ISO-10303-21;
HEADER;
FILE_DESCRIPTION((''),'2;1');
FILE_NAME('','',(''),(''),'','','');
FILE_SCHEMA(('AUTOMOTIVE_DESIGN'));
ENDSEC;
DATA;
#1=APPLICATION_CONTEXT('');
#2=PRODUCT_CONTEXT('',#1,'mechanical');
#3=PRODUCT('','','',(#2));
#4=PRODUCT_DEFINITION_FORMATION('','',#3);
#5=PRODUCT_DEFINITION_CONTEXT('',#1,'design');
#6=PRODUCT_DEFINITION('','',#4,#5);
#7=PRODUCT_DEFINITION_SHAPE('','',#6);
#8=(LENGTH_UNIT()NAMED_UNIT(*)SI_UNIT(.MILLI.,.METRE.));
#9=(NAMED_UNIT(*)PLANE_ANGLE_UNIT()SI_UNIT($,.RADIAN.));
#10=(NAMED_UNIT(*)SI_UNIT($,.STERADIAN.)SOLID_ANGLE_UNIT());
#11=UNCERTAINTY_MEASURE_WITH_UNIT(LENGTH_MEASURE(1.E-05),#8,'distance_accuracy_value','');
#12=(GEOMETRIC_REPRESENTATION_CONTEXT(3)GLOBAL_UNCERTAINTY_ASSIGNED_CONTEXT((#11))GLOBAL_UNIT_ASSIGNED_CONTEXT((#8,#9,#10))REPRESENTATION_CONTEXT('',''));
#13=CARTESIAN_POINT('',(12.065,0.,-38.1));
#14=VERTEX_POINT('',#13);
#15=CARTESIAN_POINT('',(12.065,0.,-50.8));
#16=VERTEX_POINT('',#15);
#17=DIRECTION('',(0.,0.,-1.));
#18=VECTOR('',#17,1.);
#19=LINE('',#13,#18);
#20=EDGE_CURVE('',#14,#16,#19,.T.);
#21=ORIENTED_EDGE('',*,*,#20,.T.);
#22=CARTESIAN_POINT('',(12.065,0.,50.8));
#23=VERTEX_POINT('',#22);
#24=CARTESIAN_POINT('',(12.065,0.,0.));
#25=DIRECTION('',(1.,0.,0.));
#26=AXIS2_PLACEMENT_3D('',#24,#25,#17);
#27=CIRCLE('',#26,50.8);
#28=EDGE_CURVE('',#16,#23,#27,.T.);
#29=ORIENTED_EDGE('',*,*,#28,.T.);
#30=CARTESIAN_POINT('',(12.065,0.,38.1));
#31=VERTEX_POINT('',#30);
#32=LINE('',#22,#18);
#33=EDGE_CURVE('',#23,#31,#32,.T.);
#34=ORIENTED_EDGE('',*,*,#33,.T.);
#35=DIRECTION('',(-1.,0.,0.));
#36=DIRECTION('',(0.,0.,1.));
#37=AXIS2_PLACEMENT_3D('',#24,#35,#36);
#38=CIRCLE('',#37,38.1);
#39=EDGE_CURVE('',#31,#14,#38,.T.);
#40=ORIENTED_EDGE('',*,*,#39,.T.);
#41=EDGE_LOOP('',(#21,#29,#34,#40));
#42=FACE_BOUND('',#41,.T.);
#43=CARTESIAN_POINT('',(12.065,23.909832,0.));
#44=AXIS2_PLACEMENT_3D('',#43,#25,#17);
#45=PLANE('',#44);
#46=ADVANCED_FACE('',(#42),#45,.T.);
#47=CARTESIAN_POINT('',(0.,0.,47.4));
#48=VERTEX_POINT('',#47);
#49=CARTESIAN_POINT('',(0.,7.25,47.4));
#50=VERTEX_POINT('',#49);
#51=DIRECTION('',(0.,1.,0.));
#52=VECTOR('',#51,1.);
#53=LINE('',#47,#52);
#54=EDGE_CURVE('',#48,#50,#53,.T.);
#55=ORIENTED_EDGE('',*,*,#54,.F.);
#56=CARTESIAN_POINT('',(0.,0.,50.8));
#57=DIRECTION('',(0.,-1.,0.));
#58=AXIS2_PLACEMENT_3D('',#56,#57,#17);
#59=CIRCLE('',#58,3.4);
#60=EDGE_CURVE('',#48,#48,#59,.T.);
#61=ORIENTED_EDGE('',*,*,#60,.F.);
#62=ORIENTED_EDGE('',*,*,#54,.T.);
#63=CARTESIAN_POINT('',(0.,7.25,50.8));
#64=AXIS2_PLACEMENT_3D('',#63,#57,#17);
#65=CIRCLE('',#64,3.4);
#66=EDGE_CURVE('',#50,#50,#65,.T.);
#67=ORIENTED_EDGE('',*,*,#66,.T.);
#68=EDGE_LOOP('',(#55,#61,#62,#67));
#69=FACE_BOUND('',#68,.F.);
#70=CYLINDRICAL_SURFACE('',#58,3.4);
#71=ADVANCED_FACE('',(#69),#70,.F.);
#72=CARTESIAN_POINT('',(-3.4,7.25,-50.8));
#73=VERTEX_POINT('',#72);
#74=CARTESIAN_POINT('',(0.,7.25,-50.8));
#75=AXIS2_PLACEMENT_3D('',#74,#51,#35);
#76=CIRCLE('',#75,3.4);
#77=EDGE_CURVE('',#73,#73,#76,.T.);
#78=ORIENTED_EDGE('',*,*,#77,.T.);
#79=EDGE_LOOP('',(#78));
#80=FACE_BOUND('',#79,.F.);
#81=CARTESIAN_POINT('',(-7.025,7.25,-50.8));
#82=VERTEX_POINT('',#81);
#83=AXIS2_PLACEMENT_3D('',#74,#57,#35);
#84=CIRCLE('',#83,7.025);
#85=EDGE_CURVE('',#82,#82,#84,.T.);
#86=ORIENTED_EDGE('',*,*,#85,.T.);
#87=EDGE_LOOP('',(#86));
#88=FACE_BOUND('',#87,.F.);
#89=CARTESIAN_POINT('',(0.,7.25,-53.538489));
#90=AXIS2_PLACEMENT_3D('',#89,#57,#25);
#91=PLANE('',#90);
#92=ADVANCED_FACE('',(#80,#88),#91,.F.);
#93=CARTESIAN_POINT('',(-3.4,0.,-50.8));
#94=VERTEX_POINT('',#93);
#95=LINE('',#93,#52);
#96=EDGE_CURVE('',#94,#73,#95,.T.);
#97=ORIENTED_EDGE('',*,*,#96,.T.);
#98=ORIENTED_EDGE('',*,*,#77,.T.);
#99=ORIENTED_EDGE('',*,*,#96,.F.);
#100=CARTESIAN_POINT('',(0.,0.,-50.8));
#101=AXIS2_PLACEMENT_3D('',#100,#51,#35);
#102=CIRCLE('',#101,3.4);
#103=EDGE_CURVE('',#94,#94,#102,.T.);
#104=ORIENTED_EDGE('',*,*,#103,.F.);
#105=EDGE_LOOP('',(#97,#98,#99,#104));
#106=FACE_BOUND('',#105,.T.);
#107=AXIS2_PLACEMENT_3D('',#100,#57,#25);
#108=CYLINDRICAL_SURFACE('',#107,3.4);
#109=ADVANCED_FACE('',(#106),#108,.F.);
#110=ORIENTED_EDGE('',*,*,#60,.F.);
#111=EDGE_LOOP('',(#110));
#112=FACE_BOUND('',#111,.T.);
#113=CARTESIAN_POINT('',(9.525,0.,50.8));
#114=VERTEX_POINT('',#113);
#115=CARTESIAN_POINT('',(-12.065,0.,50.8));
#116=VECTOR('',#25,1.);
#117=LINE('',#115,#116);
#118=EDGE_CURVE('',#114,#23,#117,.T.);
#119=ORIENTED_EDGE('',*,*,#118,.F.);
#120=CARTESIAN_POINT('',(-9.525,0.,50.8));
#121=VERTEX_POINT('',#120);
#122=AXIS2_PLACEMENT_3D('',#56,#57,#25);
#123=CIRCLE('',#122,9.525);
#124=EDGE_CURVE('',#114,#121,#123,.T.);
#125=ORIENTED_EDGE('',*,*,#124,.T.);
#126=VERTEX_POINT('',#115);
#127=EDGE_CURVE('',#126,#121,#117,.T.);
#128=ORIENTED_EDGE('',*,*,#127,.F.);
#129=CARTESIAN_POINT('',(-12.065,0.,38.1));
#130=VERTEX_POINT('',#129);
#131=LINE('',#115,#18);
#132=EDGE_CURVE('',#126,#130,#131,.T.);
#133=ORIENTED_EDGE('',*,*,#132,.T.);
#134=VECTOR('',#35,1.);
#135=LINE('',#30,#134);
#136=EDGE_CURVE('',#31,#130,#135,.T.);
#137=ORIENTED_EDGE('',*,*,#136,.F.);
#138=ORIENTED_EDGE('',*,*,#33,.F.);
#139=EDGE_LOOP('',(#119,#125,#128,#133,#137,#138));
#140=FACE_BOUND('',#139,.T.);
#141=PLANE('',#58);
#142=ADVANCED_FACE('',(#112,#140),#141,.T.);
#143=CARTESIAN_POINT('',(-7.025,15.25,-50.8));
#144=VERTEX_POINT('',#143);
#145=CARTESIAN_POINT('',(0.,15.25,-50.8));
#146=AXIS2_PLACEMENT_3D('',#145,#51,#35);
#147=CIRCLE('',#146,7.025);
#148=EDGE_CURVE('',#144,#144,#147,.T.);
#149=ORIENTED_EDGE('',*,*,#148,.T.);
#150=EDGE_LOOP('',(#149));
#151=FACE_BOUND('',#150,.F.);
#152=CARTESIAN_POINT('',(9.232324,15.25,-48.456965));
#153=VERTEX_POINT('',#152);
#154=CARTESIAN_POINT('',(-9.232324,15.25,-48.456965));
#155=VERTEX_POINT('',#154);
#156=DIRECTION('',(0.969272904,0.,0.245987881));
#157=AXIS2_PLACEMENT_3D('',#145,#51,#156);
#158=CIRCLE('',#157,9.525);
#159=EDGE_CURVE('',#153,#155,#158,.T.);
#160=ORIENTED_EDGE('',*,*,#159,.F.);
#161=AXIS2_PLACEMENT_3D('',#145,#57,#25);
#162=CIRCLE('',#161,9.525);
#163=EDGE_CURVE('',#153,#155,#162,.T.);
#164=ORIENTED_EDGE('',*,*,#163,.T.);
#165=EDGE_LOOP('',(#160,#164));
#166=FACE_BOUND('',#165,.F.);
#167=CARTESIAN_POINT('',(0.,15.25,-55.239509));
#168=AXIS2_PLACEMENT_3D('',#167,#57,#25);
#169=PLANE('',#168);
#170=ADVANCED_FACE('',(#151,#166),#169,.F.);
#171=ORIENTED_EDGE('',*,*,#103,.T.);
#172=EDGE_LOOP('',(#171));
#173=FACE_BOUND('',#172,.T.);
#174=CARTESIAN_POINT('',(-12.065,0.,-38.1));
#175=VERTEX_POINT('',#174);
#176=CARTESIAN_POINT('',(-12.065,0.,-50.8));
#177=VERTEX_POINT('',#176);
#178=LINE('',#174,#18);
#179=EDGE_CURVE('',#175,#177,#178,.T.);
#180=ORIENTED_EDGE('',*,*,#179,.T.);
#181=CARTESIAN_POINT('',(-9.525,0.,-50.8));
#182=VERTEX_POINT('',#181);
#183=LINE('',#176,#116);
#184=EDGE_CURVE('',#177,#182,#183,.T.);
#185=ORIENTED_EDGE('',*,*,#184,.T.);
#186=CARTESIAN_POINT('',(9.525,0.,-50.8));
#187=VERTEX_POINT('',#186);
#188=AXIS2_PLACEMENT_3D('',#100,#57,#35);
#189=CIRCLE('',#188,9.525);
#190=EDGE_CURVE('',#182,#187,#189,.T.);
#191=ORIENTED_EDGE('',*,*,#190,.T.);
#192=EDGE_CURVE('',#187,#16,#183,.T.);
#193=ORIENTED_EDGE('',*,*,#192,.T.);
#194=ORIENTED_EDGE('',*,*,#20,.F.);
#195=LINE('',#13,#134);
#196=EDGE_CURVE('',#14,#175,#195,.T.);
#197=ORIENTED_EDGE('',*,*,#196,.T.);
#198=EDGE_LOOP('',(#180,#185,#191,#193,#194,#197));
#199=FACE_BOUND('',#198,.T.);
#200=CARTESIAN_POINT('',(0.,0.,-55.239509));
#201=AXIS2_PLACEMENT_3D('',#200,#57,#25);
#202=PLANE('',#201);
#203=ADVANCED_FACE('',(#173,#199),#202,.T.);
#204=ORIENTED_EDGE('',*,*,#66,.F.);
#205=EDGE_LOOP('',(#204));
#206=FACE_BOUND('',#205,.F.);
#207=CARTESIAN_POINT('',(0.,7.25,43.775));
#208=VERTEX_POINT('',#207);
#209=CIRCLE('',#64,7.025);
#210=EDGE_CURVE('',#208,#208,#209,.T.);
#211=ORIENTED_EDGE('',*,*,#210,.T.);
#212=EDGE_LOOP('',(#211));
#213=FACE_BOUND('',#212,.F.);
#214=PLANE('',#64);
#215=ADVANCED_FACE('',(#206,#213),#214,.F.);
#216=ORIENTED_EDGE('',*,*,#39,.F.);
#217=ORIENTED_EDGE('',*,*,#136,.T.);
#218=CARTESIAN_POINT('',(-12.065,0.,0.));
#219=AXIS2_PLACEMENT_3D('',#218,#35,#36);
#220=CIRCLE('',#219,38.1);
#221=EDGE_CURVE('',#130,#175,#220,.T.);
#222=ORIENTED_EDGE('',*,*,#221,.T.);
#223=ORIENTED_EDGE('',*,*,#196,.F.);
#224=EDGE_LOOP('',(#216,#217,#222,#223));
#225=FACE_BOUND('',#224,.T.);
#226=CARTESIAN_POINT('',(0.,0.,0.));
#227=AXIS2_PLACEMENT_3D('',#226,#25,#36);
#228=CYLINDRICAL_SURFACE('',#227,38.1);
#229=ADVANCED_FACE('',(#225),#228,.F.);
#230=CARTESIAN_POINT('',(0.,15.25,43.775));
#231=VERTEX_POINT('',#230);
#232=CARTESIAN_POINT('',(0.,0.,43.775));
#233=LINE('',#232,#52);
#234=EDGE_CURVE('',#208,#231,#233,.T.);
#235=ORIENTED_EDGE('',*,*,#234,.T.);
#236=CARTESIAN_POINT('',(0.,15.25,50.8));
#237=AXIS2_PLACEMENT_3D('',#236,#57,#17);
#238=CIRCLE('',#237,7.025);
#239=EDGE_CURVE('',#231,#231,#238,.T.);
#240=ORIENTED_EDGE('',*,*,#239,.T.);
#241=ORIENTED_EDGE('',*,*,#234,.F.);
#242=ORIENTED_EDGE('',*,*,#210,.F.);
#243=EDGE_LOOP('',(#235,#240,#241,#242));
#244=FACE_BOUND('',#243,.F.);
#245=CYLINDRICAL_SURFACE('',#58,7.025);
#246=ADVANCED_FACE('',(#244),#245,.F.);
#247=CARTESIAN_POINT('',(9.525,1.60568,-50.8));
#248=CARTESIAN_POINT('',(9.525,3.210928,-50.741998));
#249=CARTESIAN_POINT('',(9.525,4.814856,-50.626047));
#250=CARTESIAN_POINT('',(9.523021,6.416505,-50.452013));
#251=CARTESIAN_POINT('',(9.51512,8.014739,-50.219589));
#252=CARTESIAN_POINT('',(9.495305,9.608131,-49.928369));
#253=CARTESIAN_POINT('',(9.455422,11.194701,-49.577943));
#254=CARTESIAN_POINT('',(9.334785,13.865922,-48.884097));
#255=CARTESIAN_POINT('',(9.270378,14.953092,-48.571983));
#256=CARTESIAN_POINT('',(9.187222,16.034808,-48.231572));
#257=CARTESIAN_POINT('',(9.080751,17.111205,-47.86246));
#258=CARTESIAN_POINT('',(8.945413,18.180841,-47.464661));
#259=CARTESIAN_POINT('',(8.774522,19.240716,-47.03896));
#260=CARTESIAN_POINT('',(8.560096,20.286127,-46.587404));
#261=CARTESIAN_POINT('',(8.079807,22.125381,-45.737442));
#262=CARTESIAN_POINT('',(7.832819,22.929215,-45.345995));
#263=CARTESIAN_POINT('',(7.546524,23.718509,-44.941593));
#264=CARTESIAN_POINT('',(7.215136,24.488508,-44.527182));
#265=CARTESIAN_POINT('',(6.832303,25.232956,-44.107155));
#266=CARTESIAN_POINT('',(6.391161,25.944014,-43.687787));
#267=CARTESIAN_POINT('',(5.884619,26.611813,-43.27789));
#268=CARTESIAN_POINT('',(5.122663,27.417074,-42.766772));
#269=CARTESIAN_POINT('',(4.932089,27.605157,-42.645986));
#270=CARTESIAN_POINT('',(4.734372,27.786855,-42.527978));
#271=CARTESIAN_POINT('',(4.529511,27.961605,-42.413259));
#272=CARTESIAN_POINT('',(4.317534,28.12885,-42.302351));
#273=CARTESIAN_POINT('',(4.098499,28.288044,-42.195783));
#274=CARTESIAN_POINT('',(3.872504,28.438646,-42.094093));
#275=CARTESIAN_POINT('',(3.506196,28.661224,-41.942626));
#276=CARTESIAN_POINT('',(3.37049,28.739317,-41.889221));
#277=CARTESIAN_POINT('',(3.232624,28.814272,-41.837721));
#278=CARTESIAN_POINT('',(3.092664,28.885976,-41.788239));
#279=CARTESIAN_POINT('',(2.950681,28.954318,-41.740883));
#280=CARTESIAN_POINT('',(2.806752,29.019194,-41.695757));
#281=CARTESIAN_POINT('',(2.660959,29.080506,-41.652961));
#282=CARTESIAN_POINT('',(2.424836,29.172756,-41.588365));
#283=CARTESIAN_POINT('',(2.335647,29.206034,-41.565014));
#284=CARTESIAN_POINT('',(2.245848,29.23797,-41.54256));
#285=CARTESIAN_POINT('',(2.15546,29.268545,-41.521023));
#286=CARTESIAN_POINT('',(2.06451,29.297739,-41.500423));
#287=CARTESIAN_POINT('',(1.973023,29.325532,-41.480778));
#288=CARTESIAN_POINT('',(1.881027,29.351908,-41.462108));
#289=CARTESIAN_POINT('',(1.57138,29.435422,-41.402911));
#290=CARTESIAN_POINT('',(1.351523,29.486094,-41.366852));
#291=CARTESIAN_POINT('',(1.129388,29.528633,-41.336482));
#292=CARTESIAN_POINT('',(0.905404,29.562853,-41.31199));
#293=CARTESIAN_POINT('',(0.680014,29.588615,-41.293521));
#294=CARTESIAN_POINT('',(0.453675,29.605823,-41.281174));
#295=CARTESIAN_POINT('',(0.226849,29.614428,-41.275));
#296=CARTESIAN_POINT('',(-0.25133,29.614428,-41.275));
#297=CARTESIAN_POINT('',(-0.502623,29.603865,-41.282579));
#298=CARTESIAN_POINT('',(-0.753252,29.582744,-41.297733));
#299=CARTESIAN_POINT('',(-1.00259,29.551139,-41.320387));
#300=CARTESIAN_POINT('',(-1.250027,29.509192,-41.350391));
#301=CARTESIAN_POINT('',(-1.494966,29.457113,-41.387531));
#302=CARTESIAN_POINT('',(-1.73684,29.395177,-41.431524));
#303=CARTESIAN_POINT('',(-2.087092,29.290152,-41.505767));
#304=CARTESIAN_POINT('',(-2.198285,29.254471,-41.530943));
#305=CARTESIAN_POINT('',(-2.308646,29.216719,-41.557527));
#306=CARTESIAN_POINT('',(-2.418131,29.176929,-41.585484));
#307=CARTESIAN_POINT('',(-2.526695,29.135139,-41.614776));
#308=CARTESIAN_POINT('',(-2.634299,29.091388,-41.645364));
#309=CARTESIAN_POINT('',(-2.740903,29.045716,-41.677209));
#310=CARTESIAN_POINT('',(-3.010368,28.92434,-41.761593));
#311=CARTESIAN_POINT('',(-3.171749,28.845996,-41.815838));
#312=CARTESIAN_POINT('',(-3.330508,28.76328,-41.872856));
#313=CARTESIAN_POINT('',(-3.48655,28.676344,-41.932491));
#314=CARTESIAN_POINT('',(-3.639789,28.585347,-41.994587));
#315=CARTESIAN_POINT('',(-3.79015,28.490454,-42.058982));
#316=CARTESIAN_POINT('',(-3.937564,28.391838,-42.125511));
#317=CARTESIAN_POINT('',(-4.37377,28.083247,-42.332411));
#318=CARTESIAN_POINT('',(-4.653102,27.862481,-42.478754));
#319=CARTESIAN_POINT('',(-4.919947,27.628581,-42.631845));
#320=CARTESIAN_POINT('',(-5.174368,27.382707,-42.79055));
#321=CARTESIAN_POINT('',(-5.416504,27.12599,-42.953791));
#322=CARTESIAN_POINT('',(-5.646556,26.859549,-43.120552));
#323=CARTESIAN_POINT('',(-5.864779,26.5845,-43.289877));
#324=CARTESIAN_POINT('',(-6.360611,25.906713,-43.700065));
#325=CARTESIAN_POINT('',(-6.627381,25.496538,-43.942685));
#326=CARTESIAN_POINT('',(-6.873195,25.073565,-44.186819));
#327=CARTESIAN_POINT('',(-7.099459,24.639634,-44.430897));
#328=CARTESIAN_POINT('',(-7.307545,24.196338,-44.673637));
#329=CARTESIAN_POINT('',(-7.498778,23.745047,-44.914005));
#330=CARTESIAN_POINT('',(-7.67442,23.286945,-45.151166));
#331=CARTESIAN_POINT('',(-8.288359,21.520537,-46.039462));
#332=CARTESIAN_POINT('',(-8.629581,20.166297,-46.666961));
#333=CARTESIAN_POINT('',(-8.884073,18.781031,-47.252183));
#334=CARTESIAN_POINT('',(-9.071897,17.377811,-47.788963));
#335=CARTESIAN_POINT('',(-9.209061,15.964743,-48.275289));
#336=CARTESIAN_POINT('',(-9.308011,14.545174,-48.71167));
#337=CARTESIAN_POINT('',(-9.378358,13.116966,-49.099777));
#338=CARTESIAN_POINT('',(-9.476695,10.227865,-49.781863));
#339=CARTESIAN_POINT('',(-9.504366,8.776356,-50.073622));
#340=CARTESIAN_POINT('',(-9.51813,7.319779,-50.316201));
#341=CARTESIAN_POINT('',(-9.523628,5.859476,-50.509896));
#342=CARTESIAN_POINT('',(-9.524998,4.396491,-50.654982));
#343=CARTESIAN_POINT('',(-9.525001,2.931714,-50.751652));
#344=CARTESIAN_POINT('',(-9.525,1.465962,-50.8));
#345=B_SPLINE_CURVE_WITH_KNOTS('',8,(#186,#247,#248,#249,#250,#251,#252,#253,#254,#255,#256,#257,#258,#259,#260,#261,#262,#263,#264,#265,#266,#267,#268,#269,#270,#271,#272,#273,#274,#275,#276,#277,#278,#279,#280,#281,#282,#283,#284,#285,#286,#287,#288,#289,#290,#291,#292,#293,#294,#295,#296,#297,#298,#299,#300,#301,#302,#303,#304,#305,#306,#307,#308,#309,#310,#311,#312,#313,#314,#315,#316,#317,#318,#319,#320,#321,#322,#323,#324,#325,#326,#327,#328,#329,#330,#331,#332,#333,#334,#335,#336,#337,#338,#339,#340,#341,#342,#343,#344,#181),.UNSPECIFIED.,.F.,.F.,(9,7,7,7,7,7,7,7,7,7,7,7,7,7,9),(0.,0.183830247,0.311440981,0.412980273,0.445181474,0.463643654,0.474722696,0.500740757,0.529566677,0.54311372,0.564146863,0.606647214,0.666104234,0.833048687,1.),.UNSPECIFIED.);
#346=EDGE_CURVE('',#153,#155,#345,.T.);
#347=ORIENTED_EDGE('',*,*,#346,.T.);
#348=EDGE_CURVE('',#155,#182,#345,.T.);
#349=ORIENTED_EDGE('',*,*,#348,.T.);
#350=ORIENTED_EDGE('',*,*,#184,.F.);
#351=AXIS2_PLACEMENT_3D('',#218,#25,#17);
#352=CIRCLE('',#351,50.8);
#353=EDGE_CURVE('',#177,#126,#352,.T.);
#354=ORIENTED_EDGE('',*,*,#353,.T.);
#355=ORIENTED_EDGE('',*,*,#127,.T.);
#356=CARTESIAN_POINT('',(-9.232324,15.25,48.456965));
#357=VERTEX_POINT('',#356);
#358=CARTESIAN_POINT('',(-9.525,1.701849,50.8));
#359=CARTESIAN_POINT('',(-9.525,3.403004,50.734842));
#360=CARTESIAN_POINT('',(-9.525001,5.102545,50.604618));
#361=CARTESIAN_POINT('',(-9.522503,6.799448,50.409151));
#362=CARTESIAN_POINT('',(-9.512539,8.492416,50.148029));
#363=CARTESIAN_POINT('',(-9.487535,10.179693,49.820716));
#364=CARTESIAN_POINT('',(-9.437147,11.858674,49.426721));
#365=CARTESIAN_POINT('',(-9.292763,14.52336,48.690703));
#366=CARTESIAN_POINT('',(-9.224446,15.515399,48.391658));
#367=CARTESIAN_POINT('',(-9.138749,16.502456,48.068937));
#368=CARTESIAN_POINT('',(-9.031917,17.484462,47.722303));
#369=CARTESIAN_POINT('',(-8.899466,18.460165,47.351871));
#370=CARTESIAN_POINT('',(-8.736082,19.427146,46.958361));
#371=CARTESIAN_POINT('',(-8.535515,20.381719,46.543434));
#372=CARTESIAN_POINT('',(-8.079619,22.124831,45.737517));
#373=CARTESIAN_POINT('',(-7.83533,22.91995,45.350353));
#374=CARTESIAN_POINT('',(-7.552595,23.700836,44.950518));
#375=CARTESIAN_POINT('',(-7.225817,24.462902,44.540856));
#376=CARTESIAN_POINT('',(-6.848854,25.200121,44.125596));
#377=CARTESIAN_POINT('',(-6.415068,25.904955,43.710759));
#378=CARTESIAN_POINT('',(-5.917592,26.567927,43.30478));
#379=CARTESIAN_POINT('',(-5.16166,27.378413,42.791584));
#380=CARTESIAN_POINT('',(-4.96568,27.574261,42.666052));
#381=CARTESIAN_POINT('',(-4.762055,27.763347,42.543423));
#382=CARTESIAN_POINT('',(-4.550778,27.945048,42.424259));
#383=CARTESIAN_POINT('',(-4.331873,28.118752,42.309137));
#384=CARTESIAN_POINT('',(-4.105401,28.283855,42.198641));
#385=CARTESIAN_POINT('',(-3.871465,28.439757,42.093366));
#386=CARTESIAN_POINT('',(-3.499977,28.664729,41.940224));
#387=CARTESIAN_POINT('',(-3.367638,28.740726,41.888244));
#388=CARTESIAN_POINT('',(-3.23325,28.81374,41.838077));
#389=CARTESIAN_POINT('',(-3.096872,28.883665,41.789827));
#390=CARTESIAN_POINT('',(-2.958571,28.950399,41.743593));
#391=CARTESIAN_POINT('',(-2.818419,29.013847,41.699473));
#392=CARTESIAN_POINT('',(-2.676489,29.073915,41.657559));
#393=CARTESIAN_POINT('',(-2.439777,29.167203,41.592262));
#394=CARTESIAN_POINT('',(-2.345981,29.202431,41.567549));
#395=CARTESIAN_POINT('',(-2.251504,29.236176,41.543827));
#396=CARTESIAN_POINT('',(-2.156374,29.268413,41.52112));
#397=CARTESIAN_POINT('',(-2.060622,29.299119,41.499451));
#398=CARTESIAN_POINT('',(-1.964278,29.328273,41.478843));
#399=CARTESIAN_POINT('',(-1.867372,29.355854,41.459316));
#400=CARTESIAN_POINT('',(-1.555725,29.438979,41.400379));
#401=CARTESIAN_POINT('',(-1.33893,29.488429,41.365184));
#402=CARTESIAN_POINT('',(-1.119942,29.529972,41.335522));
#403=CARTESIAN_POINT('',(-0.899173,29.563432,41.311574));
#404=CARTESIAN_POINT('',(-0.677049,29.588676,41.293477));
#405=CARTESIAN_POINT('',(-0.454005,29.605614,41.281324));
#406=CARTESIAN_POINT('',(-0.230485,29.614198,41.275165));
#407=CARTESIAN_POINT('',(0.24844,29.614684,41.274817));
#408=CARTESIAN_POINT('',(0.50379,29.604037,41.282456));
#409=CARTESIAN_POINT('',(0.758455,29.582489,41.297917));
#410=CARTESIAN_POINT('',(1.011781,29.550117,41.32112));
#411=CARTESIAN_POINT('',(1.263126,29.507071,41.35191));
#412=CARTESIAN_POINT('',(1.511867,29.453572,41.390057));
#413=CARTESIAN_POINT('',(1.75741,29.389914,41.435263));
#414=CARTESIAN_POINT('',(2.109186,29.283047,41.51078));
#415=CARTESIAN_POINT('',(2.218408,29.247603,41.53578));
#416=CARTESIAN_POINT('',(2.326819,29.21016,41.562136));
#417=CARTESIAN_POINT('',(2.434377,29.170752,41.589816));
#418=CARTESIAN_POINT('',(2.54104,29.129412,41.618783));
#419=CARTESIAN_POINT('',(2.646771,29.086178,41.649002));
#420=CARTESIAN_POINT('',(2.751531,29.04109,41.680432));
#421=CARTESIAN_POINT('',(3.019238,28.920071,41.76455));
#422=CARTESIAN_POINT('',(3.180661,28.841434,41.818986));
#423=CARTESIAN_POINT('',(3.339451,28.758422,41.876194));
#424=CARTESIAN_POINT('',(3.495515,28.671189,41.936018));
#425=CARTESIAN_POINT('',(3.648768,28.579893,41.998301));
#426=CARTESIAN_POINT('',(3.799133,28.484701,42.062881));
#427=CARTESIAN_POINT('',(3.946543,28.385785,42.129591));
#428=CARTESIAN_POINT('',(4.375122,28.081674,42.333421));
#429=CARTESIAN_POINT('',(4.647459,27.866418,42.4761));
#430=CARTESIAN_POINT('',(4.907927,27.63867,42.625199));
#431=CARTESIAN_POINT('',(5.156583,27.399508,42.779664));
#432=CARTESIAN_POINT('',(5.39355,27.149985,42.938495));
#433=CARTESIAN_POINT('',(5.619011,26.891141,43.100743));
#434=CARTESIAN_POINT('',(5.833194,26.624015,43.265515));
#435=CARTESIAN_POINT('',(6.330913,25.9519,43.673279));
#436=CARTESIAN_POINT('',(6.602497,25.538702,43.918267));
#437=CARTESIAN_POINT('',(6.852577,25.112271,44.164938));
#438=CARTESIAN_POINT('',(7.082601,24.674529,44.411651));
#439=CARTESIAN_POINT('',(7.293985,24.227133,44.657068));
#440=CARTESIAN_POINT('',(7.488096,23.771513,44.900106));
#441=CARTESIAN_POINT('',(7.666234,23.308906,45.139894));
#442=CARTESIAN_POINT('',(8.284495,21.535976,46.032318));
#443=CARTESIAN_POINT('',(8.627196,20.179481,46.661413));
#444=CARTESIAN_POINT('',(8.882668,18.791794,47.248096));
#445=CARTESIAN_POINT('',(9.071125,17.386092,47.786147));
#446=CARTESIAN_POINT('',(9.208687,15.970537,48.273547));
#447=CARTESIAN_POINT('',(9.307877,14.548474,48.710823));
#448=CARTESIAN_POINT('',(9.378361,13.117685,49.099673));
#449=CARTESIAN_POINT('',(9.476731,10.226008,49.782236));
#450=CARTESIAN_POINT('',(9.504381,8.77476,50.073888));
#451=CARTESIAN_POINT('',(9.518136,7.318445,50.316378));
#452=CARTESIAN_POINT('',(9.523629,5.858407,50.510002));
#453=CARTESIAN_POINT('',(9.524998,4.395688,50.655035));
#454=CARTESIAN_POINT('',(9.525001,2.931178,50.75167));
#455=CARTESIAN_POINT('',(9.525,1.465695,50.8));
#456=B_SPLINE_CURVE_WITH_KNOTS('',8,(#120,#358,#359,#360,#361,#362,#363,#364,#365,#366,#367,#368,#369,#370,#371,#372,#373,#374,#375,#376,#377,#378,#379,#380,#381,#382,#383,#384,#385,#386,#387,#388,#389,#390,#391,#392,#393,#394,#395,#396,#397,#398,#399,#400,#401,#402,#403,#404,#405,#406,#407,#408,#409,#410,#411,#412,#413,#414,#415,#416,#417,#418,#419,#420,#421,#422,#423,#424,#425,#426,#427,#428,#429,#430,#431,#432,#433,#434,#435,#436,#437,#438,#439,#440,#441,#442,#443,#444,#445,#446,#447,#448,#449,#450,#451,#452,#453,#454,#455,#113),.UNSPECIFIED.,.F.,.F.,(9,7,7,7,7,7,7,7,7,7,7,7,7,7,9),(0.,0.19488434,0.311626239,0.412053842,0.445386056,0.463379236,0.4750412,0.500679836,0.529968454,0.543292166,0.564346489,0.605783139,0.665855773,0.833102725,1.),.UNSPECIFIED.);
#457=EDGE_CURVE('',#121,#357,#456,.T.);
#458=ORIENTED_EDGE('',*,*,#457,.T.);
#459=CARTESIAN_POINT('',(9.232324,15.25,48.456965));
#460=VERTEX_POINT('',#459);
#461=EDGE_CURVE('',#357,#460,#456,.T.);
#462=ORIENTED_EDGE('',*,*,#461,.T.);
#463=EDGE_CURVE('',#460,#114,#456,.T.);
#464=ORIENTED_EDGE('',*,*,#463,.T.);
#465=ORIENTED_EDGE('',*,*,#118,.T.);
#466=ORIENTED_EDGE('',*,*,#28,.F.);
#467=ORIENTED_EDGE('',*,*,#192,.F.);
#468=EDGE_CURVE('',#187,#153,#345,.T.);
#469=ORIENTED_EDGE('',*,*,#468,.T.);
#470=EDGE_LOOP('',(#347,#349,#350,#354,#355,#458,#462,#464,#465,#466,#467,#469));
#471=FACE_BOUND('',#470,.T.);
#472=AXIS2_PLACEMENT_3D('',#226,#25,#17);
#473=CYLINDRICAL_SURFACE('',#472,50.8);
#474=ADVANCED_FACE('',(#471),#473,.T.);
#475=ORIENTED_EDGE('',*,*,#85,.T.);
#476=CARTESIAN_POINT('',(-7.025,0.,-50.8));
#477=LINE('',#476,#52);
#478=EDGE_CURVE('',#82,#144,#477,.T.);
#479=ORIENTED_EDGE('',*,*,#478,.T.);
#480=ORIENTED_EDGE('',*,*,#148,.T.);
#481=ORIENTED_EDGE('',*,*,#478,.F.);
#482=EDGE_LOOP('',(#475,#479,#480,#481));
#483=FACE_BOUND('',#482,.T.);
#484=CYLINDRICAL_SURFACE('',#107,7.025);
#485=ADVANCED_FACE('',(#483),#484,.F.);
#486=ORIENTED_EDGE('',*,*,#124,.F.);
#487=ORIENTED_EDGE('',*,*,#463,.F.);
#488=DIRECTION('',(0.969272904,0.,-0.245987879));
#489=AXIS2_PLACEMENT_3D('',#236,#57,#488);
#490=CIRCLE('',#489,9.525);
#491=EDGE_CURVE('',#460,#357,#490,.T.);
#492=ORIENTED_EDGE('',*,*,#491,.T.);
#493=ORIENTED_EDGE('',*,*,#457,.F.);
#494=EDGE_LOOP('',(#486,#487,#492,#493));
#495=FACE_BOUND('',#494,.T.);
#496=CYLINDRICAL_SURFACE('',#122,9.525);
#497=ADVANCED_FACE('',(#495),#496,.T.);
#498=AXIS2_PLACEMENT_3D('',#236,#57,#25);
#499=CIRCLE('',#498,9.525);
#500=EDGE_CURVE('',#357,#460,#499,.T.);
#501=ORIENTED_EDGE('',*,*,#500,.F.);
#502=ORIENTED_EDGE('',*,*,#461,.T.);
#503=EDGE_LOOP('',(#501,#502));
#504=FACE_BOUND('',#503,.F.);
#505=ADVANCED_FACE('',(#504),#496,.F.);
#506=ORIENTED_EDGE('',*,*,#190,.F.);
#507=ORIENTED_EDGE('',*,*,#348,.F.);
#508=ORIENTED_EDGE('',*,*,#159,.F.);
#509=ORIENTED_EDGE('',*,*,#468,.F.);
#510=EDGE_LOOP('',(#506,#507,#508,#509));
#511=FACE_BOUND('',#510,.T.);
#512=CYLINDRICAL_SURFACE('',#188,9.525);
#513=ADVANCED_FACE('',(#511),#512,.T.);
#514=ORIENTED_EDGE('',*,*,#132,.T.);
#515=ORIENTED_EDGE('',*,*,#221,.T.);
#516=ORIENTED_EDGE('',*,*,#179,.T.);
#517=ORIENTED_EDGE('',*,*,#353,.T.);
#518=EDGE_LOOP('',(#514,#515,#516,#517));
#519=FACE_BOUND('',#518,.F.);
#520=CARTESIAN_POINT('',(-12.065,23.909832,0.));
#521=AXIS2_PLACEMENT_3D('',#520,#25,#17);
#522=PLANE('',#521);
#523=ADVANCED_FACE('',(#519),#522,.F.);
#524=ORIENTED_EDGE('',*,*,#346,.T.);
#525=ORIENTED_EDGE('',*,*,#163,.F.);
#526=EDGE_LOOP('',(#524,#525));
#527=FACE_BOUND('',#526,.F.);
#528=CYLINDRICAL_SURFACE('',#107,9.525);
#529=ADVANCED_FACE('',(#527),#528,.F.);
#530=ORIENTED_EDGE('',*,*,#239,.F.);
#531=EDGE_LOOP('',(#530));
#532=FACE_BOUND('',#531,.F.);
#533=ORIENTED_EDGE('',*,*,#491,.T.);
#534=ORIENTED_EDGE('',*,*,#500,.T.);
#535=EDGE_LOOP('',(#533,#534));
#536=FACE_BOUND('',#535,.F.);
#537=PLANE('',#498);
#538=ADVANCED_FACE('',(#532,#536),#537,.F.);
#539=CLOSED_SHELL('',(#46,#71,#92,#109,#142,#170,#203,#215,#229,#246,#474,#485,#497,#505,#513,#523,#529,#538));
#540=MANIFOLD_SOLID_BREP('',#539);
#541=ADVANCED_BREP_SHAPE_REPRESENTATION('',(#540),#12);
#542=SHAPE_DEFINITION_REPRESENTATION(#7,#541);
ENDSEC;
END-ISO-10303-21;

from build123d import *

# Parameters (mm, degrees)
BOSS_EXTRUDE1_DEPTH = 12.065
SKETCH2_6_R         = 9.525
CUT_EXTRUDE1_DEPTH  = 68.25
SKETCH2_R           = 9.525
SKETCH2_R_2         = 7.025
BOSS_EXTRUDE2_DEPTH = 15.25
SKETCH2_8_R         = 7.025
SKETCH2_8_R_2       = 3.4
BOSS_EXTRUDE3_DEPTH = 7.25


with BuildPart() as part:
    # Sketch1 → Boss-Extrude1 (new, symmetric)
    with BuildSketch(Plane(origin=(0, 0, 0), x_dir=(0, 0, -1), z_dir=(1, 0, 0))):
        with BuildLine():
            Line((38.1, 0), (50.8, 0))
            ThreePointArc((50.8, 0), (0, 50.8), (-50.8, 0))
            Line((-50.8, 0), (-38.1, 0))
            ThreePointArc((-38.1, 0), (0, 38.1), (38.1, 0))
        make_face()
        with BuildLine():
            ThreePointArc((-38.1, 0), (0, 38.1), (38.1, 0))
            Line((38.1, 0), (50.8, 0))
            ThreePointArc((50.8, 0), (0, 50.8), (-50.8, 0))
            Line((-50.8, 0), (-38.1, 0))
        make_face()
        with BuildLine():
            ThreePointArc((-38.1, 0), (0, 38.1), (38.1, 0))
            Line((38.1, 0), (50.8, 0))
            ThreePointArc((50.8, 0), (0, 50.8), (-50.8, 0))
            Line((-50.8, 0), (-38.1, 0))
        make_face()
    extrude(amount=BOSS_EXTRUDE1_DEPTH, both=True)

    # Sketch2<6> → Cut-Extrude1 (cut)
    with BuildSketch(Plane.XZ):
        with Locations((0, -50.8)):
            Circle(SKETCH2_6_R)
        with Locations((0, 50.8)):
            Circle(SKETCH2_6_R)
    extrude(amount=-CUT_EXTRUDE1_DEPTH, mode=Mode.SUBTRACT)

    # Sketch2 → Boss-Extrude2 (add)
    # profile 1 of 2: a face of its own
    with BuildSketch(Plane.XZ):
        with Locations((0, -50.8)):
            Circle(SKETCH2_R)
        with Locations((0, -50.8)):
            Circle(SKETCH2_R_2, mode=Mode.SUBTRACT)
    # profile 2 of 2: a face of its own
    with BuildSketch(Plane.XZ):
        with Locations((0, 50.8)):
            Circle(SKETCH2_R)
        with Locations((0, 50.8)):
            Circle(SKETCH2_R_2, mode=Mode.SUBTRACT)
    extrude(amount=-BOSS_EXTRUDE2_DEPTH)

    # Sketch2<8> → Boss-Extrude3 (add)
    # profile 1 of 2: a face of its own
    with BuildSketch(Plane.XZ):
        with Locations((0, -50.8)):
            Circle(SKETCH2_8_R)
        with Locations((0, -50.8)):
            Circle(SKETCH2_8_R_2, mode=Mode.SUBTRACT)
    # profile 2 of 2: a face of its own
    with BuildSketch(Plane.XZ):
        with Locations((0, 50.8)):
            Circle(SKETCH2_8_R)
        with Locations((0, 50.8)):
            Circle(SKETCH2_8_R_2, mode=Mode.SUBTRACT)
    extrude(amount=-BOSS_EXTRUDE3_DEPTH)


solid = part.part
